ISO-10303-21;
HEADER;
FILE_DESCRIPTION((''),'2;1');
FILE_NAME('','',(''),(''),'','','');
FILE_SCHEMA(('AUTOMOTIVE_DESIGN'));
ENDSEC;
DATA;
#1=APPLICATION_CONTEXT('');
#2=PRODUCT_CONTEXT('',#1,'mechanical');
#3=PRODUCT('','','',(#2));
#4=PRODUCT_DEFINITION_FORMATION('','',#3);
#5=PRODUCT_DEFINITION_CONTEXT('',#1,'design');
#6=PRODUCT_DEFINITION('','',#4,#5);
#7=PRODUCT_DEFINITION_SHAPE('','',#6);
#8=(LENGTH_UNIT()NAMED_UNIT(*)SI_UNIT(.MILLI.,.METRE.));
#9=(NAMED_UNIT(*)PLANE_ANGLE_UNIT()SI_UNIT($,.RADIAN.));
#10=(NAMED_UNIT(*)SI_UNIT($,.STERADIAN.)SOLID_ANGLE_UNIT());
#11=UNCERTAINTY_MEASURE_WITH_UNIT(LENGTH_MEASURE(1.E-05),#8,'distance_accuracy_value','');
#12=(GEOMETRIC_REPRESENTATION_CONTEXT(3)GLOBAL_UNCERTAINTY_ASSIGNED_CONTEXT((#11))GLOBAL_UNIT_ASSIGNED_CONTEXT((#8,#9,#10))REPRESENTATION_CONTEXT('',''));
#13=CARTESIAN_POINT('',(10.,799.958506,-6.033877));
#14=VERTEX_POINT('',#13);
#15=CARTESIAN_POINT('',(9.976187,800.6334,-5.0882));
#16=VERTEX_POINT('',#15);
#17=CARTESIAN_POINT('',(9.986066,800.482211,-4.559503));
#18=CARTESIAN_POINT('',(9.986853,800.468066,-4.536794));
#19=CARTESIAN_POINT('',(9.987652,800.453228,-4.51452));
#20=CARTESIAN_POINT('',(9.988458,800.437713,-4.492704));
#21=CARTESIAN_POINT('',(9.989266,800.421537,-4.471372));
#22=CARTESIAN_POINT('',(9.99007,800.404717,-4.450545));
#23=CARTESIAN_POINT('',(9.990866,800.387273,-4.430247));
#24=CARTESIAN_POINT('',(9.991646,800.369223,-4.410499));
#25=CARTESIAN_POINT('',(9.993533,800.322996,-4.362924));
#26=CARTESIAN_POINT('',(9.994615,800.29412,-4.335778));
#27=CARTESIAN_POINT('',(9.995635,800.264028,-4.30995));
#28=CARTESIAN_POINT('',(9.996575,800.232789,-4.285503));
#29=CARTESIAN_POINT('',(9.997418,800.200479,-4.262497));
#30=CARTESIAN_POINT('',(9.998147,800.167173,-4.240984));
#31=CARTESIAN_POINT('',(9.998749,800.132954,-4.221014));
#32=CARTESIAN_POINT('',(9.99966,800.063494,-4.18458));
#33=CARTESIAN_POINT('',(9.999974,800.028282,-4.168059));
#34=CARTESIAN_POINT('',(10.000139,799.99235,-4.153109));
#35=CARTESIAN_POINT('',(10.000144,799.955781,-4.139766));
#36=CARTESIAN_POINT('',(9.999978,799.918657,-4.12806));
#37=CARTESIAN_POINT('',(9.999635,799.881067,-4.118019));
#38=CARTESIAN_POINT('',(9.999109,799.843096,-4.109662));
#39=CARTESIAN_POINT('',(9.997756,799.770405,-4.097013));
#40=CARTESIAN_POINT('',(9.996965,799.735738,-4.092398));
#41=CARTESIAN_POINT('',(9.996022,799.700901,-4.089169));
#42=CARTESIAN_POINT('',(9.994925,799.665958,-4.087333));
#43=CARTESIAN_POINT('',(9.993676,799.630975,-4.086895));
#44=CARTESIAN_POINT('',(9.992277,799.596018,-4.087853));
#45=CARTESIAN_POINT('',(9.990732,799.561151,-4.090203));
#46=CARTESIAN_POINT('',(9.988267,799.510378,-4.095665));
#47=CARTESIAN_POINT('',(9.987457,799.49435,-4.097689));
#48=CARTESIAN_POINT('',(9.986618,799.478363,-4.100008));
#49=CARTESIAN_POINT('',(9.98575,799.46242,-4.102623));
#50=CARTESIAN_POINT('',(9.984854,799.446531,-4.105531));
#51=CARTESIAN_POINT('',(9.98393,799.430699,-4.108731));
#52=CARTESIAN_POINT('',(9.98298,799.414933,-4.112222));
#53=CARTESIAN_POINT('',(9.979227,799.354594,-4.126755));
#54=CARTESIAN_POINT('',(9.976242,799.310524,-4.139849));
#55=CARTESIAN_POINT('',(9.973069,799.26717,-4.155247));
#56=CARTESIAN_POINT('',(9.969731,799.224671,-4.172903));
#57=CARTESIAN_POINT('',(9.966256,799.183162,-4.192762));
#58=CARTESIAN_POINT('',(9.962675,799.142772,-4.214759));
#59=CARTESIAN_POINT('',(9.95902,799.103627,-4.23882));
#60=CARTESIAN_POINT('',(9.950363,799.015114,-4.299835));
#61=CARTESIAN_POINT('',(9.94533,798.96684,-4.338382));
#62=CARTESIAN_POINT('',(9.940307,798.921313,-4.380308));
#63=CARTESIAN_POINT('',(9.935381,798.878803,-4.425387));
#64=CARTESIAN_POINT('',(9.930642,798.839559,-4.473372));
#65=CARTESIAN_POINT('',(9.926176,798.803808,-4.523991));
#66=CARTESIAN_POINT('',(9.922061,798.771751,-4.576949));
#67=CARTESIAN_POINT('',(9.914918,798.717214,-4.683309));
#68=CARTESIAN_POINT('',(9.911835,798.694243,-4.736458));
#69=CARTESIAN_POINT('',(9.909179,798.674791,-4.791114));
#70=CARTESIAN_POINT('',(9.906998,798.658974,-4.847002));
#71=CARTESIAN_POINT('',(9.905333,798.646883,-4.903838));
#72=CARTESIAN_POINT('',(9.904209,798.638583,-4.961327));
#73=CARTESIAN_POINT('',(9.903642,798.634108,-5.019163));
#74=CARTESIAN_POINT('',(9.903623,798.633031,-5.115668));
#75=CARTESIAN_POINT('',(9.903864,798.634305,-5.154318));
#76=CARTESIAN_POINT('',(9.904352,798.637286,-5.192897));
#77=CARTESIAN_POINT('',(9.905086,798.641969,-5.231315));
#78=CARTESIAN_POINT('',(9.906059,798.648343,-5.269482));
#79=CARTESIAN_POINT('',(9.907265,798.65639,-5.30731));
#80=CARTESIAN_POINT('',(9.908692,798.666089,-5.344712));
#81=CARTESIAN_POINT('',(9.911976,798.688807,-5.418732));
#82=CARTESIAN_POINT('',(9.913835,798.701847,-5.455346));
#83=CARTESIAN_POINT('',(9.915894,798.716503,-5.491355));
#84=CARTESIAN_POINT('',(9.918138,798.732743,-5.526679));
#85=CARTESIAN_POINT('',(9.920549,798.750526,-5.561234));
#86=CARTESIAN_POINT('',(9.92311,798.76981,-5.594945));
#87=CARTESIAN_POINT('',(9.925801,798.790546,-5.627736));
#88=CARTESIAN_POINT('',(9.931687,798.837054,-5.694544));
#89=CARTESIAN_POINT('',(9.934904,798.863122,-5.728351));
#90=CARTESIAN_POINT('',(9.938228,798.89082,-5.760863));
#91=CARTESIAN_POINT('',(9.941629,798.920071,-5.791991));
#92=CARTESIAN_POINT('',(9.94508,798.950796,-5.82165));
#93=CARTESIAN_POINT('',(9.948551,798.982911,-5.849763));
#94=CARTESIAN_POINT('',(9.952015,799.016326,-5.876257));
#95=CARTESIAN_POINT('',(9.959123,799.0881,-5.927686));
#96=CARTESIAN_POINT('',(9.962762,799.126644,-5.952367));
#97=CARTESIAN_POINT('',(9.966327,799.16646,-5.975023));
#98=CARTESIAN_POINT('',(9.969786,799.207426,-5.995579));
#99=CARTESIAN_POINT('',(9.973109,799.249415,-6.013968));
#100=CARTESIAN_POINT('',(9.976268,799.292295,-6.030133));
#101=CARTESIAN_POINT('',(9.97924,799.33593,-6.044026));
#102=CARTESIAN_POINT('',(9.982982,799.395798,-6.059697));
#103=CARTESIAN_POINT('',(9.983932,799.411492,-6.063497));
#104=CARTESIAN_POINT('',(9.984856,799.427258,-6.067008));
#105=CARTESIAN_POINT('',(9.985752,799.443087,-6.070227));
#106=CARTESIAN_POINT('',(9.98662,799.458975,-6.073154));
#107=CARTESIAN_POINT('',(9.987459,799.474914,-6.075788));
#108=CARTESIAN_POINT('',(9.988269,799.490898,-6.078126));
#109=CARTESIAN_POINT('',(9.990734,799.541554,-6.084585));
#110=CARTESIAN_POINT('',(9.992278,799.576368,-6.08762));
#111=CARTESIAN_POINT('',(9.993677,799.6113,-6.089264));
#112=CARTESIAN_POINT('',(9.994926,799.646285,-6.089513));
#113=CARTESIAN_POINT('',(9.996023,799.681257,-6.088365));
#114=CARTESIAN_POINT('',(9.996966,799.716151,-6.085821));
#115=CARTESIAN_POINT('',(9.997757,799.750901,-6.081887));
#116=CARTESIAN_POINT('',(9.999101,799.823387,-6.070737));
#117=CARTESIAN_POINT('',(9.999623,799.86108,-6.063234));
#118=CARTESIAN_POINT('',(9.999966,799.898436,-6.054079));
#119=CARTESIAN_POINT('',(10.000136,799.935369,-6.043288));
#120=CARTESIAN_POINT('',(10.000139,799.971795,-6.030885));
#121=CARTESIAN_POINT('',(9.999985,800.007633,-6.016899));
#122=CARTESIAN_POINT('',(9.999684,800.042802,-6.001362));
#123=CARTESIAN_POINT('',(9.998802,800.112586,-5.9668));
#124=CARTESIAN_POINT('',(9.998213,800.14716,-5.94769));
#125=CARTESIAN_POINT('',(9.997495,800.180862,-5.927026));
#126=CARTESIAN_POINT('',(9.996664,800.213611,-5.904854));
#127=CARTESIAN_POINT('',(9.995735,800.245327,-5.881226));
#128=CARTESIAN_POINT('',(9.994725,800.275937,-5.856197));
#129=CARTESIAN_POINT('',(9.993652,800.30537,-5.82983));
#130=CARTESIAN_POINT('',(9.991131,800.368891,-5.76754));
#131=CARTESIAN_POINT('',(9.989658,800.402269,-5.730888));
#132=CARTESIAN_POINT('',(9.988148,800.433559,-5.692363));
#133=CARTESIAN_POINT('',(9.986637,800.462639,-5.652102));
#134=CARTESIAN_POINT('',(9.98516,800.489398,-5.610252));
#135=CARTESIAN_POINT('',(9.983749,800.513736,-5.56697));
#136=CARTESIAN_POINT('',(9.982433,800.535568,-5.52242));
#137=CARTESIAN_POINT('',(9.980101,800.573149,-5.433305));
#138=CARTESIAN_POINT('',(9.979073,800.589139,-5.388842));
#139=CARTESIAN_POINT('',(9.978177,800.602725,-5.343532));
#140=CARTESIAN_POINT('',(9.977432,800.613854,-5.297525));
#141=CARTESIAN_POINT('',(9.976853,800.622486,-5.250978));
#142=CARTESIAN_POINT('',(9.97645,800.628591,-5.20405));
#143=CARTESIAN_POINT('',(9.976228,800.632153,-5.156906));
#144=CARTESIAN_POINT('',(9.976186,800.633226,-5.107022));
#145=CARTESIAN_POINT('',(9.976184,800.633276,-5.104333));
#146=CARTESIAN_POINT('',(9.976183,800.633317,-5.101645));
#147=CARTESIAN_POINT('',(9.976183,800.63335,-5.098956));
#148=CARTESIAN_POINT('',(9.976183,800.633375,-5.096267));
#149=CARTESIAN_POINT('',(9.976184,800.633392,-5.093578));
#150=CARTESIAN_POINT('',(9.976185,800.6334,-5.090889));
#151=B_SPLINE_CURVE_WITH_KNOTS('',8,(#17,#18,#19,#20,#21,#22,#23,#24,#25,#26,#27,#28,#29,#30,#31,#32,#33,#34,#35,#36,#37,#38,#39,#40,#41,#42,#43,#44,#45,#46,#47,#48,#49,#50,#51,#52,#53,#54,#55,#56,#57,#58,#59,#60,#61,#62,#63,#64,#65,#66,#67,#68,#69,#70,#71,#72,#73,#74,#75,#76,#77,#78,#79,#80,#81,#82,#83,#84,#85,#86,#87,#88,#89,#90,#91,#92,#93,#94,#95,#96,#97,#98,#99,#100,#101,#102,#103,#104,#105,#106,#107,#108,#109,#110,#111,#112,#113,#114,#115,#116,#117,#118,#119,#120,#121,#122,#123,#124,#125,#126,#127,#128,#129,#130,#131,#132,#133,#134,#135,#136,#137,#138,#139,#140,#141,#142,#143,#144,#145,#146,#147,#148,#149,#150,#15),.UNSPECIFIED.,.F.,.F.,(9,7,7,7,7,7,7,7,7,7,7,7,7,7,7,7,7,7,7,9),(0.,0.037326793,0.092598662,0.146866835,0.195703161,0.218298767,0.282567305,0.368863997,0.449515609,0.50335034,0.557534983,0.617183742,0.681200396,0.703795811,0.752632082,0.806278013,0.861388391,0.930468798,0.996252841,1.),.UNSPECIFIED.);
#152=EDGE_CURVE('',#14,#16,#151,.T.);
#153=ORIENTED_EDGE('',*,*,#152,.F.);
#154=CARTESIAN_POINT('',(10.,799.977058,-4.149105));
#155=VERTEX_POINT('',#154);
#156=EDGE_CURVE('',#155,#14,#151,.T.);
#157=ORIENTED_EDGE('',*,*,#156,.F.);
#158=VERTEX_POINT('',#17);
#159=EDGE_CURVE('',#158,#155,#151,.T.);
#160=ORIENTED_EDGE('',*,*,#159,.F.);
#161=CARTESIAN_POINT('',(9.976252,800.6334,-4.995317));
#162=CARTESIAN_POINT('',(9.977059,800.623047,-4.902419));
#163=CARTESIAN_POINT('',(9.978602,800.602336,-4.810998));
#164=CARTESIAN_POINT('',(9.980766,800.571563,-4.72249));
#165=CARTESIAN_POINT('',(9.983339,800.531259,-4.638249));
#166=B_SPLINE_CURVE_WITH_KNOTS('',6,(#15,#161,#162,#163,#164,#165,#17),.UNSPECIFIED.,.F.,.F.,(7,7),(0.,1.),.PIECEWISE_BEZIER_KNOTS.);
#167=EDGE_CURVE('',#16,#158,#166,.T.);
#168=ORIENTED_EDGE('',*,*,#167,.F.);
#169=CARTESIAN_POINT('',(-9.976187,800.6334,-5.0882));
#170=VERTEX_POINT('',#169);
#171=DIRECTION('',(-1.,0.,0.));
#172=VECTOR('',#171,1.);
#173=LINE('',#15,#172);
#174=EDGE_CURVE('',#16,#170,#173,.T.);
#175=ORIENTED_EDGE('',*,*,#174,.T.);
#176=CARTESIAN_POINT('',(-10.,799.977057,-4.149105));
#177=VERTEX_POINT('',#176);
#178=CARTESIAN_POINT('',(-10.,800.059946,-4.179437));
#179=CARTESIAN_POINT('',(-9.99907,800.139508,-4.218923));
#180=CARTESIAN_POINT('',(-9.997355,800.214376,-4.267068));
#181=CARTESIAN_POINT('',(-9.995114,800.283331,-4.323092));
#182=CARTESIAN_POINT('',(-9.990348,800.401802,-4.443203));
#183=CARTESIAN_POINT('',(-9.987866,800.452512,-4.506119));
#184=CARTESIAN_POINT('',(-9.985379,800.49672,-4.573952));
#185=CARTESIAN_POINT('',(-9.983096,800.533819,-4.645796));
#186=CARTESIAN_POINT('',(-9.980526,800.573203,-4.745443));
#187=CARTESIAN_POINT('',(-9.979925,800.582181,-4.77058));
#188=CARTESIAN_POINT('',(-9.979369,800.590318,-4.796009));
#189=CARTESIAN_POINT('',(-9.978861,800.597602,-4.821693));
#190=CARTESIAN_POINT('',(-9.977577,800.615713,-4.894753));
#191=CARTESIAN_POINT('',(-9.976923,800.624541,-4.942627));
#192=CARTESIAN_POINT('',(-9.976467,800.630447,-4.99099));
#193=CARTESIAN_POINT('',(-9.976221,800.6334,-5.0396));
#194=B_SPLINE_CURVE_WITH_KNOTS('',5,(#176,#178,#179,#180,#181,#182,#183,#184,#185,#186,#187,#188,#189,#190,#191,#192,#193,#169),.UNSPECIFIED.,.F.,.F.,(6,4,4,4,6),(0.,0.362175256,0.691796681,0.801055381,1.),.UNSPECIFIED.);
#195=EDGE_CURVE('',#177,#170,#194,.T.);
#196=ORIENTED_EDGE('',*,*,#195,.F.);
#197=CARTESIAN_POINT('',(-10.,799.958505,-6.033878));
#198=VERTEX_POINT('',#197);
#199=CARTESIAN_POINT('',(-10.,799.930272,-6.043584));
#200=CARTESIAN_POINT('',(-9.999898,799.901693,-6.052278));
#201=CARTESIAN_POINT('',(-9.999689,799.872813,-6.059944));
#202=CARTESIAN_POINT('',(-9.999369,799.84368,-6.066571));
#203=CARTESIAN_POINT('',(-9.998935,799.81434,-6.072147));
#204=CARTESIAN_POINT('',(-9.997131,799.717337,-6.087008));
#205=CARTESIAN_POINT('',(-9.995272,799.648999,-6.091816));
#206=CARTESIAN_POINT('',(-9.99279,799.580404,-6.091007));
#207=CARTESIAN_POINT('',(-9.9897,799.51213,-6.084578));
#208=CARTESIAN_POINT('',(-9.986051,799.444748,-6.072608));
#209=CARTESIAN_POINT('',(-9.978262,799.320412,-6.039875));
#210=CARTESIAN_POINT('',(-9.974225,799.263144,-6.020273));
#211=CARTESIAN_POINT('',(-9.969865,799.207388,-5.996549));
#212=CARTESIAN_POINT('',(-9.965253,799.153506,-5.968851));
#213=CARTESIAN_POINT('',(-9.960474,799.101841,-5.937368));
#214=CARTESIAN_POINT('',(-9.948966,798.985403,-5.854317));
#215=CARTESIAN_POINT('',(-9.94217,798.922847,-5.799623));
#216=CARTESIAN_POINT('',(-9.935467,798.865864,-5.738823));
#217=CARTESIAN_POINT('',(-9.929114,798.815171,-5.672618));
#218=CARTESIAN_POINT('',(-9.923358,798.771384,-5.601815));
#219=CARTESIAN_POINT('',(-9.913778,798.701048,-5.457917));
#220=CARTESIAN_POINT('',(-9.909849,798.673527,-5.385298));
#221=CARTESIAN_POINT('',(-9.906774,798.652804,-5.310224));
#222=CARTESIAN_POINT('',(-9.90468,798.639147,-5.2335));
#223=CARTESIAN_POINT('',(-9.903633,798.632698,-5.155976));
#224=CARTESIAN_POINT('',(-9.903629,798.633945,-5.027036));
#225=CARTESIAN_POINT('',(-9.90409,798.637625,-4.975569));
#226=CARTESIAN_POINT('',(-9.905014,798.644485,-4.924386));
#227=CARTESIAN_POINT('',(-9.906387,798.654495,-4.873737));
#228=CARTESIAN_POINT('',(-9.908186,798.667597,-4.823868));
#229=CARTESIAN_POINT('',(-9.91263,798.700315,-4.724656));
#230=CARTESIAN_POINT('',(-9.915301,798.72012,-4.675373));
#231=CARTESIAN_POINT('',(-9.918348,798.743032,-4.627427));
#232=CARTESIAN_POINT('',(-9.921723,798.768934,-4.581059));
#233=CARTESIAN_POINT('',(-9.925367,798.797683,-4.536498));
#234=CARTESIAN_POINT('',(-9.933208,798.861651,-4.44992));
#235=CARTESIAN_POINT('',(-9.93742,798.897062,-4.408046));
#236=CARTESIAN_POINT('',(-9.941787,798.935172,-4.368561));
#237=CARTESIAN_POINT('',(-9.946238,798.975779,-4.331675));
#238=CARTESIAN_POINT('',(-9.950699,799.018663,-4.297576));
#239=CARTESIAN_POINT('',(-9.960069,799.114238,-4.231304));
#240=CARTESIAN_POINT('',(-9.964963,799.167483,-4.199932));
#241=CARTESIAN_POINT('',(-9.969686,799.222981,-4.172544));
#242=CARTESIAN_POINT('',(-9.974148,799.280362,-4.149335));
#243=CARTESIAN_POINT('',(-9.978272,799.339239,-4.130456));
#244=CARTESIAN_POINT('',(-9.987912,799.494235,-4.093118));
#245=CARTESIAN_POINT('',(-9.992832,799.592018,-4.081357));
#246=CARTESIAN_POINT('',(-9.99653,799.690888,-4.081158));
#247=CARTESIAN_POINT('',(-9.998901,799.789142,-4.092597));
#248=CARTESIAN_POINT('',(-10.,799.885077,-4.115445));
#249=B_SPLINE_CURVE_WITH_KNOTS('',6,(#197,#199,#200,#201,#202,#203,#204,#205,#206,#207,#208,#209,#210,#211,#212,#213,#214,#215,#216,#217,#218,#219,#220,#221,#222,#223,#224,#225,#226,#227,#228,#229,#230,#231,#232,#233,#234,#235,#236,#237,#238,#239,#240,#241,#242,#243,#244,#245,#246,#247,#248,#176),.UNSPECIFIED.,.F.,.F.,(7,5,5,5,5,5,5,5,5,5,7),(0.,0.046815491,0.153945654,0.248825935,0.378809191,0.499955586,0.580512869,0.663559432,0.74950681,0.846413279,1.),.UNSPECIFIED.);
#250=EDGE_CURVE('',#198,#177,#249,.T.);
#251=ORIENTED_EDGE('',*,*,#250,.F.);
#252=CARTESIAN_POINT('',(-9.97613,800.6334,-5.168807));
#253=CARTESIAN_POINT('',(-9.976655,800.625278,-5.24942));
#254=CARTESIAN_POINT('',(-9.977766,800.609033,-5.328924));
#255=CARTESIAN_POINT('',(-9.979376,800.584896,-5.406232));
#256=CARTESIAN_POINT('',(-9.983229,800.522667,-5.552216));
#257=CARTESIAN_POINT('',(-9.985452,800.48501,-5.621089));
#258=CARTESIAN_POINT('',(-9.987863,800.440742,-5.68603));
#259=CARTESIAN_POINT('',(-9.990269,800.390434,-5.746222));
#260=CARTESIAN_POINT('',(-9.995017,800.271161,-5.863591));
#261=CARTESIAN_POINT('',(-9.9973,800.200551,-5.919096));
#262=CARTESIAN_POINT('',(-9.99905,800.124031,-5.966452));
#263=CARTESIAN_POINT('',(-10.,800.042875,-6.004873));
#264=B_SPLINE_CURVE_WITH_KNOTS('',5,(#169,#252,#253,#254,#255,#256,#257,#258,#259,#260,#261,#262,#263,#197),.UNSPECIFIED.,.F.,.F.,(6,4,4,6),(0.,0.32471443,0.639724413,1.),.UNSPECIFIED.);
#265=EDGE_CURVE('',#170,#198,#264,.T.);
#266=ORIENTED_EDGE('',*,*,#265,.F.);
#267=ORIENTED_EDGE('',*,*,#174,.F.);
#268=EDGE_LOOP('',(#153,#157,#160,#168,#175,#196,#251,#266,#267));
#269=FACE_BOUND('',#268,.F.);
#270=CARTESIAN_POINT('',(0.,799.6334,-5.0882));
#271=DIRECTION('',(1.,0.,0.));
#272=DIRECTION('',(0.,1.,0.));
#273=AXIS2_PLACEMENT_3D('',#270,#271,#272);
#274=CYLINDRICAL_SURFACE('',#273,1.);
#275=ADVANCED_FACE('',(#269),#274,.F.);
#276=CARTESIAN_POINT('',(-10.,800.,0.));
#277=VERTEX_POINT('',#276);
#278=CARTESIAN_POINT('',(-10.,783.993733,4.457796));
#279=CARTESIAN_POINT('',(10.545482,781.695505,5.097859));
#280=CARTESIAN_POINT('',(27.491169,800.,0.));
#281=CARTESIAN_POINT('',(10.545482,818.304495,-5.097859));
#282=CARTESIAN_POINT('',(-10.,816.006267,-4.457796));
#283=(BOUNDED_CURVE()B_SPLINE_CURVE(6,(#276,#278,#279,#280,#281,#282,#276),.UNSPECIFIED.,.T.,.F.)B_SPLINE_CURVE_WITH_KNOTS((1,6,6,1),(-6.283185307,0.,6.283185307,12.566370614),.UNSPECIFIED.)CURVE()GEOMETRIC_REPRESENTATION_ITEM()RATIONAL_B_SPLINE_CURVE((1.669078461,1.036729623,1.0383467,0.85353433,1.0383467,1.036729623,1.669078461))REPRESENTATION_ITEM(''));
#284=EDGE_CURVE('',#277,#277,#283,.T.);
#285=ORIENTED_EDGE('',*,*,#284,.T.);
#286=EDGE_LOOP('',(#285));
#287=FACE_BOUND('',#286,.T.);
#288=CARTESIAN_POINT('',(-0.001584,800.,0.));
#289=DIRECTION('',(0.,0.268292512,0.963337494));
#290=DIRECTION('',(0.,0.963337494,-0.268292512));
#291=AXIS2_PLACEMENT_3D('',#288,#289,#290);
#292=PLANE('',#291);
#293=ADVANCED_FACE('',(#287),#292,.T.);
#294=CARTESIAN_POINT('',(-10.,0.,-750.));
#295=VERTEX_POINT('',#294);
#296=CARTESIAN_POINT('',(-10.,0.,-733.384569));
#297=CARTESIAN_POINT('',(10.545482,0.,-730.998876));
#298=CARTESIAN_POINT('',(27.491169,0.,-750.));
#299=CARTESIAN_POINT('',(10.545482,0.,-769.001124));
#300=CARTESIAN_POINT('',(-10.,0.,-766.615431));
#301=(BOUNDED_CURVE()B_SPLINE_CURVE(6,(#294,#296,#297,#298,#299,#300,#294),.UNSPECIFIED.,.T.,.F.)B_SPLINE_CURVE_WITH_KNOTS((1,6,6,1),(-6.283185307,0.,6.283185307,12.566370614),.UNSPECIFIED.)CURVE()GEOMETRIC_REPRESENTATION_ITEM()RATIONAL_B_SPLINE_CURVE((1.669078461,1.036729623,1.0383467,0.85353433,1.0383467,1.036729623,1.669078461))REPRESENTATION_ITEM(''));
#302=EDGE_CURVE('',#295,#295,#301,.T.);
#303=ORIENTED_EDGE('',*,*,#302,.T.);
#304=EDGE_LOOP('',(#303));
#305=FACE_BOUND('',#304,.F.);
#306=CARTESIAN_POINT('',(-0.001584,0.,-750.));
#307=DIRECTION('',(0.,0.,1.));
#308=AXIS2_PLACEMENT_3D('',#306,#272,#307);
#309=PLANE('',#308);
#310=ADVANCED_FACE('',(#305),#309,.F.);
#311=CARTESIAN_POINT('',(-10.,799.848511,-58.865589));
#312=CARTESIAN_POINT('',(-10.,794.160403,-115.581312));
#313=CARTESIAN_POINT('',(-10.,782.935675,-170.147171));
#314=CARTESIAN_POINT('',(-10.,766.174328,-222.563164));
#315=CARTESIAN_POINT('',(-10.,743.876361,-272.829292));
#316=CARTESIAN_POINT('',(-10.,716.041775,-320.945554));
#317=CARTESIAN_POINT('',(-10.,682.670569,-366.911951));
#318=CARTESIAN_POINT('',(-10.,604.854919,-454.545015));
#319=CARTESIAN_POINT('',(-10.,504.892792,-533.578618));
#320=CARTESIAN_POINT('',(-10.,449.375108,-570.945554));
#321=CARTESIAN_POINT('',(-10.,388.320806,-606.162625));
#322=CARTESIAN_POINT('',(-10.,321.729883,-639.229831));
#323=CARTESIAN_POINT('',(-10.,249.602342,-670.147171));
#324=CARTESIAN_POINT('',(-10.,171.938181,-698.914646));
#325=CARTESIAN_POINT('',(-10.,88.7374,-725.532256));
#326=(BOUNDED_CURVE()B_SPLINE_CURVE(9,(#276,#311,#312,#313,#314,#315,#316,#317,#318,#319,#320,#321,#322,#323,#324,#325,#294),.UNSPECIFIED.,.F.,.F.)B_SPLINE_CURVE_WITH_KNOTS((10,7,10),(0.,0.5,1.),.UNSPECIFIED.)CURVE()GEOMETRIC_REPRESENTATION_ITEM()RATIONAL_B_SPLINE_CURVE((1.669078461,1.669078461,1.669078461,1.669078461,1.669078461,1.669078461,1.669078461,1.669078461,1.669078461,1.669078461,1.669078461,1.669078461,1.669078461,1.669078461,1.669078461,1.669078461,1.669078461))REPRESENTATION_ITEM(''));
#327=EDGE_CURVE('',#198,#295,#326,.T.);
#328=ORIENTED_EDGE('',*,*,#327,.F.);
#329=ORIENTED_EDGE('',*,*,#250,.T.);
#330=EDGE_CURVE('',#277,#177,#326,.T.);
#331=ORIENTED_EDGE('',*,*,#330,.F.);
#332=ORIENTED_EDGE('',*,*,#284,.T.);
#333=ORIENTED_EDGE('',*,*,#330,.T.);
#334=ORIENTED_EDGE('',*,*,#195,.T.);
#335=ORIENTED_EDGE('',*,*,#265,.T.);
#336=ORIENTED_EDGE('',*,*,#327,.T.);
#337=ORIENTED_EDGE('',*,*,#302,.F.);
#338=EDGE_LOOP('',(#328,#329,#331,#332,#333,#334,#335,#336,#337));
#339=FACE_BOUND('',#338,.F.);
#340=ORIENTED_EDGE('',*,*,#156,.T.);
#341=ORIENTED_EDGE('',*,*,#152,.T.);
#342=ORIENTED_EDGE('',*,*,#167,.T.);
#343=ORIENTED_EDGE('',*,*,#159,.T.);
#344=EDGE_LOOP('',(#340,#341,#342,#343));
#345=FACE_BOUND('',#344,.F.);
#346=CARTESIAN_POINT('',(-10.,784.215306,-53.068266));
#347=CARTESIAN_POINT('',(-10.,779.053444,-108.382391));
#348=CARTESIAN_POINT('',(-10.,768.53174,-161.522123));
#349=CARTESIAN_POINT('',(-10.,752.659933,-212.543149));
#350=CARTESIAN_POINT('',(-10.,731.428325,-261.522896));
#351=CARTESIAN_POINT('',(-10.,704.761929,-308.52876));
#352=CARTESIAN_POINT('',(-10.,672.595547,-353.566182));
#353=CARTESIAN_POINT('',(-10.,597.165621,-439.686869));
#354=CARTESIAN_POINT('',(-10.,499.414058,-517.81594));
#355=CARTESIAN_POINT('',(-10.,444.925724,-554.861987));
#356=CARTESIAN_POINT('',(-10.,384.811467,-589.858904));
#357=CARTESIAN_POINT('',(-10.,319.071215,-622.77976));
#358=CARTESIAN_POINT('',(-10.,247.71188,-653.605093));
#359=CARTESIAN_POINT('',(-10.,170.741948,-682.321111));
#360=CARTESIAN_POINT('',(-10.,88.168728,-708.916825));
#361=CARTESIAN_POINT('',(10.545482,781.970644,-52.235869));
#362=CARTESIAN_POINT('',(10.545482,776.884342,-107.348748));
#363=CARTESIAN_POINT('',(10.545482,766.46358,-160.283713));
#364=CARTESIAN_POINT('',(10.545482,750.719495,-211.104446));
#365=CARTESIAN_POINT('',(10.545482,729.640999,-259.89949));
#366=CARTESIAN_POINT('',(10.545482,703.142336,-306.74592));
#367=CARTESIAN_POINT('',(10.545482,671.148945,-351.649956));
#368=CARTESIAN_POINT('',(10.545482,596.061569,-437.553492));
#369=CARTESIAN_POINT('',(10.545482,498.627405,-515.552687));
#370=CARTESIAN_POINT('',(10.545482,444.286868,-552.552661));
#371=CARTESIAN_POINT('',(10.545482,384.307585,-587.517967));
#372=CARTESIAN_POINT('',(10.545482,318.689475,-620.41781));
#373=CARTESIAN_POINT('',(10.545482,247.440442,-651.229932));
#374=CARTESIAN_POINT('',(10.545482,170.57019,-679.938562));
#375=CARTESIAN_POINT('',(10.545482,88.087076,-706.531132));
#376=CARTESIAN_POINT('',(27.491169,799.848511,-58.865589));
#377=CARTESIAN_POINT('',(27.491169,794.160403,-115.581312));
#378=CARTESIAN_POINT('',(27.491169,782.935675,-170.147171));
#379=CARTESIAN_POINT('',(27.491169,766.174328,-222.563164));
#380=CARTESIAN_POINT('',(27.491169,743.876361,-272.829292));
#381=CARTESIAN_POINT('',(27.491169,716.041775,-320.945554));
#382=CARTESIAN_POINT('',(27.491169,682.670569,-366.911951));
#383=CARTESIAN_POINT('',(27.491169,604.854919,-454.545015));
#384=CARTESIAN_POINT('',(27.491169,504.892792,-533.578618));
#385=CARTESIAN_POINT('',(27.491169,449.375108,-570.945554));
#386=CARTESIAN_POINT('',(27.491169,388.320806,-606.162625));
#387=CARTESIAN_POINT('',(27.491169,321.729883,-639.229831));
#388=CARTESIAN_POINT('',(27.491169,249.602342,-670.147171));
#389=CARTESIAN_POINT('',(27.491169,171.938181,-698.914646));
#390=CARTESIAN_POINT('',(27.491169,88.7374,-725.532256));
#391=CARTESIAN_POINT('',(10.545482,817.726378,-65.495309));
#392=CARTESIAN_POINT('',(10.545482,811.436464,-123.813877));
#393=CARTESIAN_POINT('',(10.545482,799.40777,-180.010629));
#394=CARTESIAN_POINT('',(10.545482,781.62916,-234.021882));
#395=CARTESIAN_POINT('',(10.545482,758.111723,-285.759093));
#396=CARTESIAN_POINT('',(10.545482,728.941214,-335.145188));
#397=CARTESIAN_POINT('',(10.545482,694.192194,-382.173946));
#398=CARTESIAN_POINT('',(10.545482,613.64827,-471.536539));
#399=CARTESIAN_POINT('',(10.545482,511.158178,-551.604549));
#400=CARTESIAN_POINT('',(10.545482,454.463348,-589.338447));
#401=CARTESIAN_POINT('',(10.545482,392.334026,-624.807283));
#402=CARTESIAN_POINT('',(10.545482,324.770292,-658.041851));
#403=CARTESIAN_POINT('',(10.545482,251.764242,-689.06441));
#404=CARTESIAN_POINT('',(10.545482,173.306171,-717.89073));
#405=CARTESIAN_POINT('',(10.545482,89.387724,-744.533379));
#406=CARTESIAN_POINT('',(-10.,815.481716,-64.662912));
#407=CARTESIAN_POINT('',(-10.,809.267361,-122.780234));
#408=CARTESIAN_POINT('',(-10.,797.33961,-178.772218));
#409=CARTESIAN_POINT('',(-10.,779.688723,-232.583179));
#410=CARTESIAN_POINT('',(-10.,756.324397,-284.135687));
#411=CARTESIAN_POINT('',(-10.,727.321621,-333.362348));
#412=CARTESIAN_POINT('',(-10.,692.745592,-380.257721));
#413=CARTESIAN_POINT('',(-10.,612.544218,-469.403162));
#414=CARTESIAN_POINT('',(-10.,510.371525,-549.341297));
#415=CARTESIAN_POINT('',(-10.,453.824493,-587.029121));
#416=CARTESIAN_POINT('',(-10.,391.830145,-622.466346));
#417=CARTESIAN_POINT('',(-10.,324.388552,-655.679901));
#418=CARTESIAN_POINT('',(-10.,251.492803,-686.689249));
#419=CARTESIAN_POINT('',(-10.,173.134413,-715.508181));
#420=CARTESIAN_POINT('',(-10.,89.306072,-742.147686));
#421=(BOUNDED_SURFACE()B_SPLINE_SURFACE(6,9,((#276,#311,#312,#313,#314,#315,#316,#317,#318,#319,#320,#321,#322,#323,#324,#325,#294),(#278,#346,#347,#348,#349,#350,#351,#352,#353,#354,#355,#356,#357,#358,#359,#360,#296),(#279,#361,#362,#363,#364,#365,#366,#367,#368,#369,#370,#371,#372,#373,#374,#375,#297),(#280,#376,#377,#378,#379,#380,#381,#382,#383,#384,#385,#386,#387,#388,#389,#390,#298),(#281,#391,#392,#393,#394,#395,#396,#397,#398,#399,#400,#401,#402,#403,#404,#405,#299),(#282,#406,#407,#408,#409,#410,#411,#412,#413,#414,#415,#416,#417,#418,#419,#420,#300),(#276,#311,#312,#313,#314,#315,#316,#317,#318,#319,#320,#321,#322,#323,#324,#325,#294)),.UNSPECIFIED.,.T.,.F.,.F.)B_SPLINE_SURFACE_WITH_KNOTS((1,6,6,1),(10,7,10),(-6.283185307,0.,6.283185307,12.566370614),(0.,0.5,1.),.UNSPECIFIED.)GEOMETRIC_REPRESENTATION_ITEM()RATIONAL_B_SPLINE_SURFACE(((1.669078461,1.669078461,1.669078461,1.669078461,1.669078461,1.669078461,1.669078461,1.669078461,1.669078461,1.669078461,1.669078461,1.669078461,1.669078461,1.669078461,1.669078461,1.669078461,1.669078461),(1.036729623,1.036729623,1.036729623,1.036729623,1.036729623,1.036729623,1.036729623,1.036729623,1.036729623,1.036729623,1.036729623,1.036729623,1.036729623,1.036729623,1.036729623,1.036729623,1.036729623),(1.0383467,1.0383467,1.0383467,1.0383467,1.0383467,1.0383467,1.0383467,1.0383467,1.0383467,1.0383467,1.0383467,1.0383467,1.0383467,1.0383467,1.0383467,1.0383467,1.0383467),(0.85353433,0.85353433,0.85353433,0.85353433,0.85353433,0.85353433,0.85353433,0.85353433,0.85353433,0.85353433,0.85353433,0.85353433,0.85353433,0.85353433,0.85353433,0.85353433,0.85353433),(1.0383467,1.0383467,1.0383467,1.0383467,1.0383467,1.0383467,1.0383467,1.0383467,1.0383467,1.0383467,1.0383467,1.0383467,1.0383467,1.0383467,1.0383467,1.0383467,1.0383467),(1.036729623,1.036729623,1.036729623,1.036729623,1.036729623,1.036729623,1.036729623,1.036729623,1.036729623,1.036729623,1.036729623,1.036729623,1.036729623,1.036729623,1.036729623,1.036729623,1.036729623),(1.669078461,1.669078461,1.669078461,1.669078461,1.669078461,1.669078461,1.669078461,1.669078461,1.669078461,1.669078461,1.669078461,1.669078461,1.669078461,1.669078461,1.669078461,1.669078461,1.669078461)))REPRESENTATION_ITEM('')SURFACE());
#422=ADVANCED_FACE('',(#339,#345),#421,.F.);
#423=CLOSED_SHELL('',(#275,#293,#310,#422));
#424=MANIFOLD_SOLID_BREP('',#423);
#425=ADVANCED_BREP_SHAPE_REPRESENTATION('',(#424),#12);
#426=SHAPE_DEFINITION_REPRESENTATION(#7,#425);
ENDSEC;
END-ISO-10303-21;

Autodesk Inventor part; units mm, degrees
ref_plane "YZ Plane" through (0, 0, 0) normal (1, 0, 0) x (0, 1, 0)
ref_plane "XZ Plane" through (0, 0, 0) normal (0, 1, 0) x (-1, 0, 0)
sketch "Sketch1" plane through (0, 0, 0) normal (1, 0, 0) x (0, 1, 0)
  spline S0 degree 2 poles (800, 0) (798.6366, -529.7903) (0, -750) knots 0 0 0 1 1 1
  point P0 (0, 0)
  point P1 (650, -400)
  dimension "d1" = 750
  dimension "d3" = 400
  dimension "d4" = 150
  dimension "d5" = 350
sketch "Sketch3" plane through (0, 0, 0) normal (0, 1, 0) x (-1, 0, 0)
  circle A0 centre (0, -750) radius 10
  point P0 (0, 0)
  dimension "d6" = 20
sweep "Sweep1" add profiles "Sketch3" path "Sketch1"
sketch "Sketch4" plane through (0, 0, 0) normal (1, 0, 0) x (0, 1, 0)
  circle A0 centre (799.6334, -5.0882) radius 1
  line L0 (809.6334, -2.6829) -> (790.3666, 2.6829) projected
  point P0 (0, 0)
  point P1 (800, 0)
  dimension "d9" = 2
  dimension "d10" = 5
  dimension "d12" = 10
extrude "Extrusion1" cut sketch "Sketch4" along normal mid plane 20
ref_plane "Work Plane1" through (0, 0, 3) normal (0, 0, 1) x (1, 0, 0)
properties part number "Rib"
